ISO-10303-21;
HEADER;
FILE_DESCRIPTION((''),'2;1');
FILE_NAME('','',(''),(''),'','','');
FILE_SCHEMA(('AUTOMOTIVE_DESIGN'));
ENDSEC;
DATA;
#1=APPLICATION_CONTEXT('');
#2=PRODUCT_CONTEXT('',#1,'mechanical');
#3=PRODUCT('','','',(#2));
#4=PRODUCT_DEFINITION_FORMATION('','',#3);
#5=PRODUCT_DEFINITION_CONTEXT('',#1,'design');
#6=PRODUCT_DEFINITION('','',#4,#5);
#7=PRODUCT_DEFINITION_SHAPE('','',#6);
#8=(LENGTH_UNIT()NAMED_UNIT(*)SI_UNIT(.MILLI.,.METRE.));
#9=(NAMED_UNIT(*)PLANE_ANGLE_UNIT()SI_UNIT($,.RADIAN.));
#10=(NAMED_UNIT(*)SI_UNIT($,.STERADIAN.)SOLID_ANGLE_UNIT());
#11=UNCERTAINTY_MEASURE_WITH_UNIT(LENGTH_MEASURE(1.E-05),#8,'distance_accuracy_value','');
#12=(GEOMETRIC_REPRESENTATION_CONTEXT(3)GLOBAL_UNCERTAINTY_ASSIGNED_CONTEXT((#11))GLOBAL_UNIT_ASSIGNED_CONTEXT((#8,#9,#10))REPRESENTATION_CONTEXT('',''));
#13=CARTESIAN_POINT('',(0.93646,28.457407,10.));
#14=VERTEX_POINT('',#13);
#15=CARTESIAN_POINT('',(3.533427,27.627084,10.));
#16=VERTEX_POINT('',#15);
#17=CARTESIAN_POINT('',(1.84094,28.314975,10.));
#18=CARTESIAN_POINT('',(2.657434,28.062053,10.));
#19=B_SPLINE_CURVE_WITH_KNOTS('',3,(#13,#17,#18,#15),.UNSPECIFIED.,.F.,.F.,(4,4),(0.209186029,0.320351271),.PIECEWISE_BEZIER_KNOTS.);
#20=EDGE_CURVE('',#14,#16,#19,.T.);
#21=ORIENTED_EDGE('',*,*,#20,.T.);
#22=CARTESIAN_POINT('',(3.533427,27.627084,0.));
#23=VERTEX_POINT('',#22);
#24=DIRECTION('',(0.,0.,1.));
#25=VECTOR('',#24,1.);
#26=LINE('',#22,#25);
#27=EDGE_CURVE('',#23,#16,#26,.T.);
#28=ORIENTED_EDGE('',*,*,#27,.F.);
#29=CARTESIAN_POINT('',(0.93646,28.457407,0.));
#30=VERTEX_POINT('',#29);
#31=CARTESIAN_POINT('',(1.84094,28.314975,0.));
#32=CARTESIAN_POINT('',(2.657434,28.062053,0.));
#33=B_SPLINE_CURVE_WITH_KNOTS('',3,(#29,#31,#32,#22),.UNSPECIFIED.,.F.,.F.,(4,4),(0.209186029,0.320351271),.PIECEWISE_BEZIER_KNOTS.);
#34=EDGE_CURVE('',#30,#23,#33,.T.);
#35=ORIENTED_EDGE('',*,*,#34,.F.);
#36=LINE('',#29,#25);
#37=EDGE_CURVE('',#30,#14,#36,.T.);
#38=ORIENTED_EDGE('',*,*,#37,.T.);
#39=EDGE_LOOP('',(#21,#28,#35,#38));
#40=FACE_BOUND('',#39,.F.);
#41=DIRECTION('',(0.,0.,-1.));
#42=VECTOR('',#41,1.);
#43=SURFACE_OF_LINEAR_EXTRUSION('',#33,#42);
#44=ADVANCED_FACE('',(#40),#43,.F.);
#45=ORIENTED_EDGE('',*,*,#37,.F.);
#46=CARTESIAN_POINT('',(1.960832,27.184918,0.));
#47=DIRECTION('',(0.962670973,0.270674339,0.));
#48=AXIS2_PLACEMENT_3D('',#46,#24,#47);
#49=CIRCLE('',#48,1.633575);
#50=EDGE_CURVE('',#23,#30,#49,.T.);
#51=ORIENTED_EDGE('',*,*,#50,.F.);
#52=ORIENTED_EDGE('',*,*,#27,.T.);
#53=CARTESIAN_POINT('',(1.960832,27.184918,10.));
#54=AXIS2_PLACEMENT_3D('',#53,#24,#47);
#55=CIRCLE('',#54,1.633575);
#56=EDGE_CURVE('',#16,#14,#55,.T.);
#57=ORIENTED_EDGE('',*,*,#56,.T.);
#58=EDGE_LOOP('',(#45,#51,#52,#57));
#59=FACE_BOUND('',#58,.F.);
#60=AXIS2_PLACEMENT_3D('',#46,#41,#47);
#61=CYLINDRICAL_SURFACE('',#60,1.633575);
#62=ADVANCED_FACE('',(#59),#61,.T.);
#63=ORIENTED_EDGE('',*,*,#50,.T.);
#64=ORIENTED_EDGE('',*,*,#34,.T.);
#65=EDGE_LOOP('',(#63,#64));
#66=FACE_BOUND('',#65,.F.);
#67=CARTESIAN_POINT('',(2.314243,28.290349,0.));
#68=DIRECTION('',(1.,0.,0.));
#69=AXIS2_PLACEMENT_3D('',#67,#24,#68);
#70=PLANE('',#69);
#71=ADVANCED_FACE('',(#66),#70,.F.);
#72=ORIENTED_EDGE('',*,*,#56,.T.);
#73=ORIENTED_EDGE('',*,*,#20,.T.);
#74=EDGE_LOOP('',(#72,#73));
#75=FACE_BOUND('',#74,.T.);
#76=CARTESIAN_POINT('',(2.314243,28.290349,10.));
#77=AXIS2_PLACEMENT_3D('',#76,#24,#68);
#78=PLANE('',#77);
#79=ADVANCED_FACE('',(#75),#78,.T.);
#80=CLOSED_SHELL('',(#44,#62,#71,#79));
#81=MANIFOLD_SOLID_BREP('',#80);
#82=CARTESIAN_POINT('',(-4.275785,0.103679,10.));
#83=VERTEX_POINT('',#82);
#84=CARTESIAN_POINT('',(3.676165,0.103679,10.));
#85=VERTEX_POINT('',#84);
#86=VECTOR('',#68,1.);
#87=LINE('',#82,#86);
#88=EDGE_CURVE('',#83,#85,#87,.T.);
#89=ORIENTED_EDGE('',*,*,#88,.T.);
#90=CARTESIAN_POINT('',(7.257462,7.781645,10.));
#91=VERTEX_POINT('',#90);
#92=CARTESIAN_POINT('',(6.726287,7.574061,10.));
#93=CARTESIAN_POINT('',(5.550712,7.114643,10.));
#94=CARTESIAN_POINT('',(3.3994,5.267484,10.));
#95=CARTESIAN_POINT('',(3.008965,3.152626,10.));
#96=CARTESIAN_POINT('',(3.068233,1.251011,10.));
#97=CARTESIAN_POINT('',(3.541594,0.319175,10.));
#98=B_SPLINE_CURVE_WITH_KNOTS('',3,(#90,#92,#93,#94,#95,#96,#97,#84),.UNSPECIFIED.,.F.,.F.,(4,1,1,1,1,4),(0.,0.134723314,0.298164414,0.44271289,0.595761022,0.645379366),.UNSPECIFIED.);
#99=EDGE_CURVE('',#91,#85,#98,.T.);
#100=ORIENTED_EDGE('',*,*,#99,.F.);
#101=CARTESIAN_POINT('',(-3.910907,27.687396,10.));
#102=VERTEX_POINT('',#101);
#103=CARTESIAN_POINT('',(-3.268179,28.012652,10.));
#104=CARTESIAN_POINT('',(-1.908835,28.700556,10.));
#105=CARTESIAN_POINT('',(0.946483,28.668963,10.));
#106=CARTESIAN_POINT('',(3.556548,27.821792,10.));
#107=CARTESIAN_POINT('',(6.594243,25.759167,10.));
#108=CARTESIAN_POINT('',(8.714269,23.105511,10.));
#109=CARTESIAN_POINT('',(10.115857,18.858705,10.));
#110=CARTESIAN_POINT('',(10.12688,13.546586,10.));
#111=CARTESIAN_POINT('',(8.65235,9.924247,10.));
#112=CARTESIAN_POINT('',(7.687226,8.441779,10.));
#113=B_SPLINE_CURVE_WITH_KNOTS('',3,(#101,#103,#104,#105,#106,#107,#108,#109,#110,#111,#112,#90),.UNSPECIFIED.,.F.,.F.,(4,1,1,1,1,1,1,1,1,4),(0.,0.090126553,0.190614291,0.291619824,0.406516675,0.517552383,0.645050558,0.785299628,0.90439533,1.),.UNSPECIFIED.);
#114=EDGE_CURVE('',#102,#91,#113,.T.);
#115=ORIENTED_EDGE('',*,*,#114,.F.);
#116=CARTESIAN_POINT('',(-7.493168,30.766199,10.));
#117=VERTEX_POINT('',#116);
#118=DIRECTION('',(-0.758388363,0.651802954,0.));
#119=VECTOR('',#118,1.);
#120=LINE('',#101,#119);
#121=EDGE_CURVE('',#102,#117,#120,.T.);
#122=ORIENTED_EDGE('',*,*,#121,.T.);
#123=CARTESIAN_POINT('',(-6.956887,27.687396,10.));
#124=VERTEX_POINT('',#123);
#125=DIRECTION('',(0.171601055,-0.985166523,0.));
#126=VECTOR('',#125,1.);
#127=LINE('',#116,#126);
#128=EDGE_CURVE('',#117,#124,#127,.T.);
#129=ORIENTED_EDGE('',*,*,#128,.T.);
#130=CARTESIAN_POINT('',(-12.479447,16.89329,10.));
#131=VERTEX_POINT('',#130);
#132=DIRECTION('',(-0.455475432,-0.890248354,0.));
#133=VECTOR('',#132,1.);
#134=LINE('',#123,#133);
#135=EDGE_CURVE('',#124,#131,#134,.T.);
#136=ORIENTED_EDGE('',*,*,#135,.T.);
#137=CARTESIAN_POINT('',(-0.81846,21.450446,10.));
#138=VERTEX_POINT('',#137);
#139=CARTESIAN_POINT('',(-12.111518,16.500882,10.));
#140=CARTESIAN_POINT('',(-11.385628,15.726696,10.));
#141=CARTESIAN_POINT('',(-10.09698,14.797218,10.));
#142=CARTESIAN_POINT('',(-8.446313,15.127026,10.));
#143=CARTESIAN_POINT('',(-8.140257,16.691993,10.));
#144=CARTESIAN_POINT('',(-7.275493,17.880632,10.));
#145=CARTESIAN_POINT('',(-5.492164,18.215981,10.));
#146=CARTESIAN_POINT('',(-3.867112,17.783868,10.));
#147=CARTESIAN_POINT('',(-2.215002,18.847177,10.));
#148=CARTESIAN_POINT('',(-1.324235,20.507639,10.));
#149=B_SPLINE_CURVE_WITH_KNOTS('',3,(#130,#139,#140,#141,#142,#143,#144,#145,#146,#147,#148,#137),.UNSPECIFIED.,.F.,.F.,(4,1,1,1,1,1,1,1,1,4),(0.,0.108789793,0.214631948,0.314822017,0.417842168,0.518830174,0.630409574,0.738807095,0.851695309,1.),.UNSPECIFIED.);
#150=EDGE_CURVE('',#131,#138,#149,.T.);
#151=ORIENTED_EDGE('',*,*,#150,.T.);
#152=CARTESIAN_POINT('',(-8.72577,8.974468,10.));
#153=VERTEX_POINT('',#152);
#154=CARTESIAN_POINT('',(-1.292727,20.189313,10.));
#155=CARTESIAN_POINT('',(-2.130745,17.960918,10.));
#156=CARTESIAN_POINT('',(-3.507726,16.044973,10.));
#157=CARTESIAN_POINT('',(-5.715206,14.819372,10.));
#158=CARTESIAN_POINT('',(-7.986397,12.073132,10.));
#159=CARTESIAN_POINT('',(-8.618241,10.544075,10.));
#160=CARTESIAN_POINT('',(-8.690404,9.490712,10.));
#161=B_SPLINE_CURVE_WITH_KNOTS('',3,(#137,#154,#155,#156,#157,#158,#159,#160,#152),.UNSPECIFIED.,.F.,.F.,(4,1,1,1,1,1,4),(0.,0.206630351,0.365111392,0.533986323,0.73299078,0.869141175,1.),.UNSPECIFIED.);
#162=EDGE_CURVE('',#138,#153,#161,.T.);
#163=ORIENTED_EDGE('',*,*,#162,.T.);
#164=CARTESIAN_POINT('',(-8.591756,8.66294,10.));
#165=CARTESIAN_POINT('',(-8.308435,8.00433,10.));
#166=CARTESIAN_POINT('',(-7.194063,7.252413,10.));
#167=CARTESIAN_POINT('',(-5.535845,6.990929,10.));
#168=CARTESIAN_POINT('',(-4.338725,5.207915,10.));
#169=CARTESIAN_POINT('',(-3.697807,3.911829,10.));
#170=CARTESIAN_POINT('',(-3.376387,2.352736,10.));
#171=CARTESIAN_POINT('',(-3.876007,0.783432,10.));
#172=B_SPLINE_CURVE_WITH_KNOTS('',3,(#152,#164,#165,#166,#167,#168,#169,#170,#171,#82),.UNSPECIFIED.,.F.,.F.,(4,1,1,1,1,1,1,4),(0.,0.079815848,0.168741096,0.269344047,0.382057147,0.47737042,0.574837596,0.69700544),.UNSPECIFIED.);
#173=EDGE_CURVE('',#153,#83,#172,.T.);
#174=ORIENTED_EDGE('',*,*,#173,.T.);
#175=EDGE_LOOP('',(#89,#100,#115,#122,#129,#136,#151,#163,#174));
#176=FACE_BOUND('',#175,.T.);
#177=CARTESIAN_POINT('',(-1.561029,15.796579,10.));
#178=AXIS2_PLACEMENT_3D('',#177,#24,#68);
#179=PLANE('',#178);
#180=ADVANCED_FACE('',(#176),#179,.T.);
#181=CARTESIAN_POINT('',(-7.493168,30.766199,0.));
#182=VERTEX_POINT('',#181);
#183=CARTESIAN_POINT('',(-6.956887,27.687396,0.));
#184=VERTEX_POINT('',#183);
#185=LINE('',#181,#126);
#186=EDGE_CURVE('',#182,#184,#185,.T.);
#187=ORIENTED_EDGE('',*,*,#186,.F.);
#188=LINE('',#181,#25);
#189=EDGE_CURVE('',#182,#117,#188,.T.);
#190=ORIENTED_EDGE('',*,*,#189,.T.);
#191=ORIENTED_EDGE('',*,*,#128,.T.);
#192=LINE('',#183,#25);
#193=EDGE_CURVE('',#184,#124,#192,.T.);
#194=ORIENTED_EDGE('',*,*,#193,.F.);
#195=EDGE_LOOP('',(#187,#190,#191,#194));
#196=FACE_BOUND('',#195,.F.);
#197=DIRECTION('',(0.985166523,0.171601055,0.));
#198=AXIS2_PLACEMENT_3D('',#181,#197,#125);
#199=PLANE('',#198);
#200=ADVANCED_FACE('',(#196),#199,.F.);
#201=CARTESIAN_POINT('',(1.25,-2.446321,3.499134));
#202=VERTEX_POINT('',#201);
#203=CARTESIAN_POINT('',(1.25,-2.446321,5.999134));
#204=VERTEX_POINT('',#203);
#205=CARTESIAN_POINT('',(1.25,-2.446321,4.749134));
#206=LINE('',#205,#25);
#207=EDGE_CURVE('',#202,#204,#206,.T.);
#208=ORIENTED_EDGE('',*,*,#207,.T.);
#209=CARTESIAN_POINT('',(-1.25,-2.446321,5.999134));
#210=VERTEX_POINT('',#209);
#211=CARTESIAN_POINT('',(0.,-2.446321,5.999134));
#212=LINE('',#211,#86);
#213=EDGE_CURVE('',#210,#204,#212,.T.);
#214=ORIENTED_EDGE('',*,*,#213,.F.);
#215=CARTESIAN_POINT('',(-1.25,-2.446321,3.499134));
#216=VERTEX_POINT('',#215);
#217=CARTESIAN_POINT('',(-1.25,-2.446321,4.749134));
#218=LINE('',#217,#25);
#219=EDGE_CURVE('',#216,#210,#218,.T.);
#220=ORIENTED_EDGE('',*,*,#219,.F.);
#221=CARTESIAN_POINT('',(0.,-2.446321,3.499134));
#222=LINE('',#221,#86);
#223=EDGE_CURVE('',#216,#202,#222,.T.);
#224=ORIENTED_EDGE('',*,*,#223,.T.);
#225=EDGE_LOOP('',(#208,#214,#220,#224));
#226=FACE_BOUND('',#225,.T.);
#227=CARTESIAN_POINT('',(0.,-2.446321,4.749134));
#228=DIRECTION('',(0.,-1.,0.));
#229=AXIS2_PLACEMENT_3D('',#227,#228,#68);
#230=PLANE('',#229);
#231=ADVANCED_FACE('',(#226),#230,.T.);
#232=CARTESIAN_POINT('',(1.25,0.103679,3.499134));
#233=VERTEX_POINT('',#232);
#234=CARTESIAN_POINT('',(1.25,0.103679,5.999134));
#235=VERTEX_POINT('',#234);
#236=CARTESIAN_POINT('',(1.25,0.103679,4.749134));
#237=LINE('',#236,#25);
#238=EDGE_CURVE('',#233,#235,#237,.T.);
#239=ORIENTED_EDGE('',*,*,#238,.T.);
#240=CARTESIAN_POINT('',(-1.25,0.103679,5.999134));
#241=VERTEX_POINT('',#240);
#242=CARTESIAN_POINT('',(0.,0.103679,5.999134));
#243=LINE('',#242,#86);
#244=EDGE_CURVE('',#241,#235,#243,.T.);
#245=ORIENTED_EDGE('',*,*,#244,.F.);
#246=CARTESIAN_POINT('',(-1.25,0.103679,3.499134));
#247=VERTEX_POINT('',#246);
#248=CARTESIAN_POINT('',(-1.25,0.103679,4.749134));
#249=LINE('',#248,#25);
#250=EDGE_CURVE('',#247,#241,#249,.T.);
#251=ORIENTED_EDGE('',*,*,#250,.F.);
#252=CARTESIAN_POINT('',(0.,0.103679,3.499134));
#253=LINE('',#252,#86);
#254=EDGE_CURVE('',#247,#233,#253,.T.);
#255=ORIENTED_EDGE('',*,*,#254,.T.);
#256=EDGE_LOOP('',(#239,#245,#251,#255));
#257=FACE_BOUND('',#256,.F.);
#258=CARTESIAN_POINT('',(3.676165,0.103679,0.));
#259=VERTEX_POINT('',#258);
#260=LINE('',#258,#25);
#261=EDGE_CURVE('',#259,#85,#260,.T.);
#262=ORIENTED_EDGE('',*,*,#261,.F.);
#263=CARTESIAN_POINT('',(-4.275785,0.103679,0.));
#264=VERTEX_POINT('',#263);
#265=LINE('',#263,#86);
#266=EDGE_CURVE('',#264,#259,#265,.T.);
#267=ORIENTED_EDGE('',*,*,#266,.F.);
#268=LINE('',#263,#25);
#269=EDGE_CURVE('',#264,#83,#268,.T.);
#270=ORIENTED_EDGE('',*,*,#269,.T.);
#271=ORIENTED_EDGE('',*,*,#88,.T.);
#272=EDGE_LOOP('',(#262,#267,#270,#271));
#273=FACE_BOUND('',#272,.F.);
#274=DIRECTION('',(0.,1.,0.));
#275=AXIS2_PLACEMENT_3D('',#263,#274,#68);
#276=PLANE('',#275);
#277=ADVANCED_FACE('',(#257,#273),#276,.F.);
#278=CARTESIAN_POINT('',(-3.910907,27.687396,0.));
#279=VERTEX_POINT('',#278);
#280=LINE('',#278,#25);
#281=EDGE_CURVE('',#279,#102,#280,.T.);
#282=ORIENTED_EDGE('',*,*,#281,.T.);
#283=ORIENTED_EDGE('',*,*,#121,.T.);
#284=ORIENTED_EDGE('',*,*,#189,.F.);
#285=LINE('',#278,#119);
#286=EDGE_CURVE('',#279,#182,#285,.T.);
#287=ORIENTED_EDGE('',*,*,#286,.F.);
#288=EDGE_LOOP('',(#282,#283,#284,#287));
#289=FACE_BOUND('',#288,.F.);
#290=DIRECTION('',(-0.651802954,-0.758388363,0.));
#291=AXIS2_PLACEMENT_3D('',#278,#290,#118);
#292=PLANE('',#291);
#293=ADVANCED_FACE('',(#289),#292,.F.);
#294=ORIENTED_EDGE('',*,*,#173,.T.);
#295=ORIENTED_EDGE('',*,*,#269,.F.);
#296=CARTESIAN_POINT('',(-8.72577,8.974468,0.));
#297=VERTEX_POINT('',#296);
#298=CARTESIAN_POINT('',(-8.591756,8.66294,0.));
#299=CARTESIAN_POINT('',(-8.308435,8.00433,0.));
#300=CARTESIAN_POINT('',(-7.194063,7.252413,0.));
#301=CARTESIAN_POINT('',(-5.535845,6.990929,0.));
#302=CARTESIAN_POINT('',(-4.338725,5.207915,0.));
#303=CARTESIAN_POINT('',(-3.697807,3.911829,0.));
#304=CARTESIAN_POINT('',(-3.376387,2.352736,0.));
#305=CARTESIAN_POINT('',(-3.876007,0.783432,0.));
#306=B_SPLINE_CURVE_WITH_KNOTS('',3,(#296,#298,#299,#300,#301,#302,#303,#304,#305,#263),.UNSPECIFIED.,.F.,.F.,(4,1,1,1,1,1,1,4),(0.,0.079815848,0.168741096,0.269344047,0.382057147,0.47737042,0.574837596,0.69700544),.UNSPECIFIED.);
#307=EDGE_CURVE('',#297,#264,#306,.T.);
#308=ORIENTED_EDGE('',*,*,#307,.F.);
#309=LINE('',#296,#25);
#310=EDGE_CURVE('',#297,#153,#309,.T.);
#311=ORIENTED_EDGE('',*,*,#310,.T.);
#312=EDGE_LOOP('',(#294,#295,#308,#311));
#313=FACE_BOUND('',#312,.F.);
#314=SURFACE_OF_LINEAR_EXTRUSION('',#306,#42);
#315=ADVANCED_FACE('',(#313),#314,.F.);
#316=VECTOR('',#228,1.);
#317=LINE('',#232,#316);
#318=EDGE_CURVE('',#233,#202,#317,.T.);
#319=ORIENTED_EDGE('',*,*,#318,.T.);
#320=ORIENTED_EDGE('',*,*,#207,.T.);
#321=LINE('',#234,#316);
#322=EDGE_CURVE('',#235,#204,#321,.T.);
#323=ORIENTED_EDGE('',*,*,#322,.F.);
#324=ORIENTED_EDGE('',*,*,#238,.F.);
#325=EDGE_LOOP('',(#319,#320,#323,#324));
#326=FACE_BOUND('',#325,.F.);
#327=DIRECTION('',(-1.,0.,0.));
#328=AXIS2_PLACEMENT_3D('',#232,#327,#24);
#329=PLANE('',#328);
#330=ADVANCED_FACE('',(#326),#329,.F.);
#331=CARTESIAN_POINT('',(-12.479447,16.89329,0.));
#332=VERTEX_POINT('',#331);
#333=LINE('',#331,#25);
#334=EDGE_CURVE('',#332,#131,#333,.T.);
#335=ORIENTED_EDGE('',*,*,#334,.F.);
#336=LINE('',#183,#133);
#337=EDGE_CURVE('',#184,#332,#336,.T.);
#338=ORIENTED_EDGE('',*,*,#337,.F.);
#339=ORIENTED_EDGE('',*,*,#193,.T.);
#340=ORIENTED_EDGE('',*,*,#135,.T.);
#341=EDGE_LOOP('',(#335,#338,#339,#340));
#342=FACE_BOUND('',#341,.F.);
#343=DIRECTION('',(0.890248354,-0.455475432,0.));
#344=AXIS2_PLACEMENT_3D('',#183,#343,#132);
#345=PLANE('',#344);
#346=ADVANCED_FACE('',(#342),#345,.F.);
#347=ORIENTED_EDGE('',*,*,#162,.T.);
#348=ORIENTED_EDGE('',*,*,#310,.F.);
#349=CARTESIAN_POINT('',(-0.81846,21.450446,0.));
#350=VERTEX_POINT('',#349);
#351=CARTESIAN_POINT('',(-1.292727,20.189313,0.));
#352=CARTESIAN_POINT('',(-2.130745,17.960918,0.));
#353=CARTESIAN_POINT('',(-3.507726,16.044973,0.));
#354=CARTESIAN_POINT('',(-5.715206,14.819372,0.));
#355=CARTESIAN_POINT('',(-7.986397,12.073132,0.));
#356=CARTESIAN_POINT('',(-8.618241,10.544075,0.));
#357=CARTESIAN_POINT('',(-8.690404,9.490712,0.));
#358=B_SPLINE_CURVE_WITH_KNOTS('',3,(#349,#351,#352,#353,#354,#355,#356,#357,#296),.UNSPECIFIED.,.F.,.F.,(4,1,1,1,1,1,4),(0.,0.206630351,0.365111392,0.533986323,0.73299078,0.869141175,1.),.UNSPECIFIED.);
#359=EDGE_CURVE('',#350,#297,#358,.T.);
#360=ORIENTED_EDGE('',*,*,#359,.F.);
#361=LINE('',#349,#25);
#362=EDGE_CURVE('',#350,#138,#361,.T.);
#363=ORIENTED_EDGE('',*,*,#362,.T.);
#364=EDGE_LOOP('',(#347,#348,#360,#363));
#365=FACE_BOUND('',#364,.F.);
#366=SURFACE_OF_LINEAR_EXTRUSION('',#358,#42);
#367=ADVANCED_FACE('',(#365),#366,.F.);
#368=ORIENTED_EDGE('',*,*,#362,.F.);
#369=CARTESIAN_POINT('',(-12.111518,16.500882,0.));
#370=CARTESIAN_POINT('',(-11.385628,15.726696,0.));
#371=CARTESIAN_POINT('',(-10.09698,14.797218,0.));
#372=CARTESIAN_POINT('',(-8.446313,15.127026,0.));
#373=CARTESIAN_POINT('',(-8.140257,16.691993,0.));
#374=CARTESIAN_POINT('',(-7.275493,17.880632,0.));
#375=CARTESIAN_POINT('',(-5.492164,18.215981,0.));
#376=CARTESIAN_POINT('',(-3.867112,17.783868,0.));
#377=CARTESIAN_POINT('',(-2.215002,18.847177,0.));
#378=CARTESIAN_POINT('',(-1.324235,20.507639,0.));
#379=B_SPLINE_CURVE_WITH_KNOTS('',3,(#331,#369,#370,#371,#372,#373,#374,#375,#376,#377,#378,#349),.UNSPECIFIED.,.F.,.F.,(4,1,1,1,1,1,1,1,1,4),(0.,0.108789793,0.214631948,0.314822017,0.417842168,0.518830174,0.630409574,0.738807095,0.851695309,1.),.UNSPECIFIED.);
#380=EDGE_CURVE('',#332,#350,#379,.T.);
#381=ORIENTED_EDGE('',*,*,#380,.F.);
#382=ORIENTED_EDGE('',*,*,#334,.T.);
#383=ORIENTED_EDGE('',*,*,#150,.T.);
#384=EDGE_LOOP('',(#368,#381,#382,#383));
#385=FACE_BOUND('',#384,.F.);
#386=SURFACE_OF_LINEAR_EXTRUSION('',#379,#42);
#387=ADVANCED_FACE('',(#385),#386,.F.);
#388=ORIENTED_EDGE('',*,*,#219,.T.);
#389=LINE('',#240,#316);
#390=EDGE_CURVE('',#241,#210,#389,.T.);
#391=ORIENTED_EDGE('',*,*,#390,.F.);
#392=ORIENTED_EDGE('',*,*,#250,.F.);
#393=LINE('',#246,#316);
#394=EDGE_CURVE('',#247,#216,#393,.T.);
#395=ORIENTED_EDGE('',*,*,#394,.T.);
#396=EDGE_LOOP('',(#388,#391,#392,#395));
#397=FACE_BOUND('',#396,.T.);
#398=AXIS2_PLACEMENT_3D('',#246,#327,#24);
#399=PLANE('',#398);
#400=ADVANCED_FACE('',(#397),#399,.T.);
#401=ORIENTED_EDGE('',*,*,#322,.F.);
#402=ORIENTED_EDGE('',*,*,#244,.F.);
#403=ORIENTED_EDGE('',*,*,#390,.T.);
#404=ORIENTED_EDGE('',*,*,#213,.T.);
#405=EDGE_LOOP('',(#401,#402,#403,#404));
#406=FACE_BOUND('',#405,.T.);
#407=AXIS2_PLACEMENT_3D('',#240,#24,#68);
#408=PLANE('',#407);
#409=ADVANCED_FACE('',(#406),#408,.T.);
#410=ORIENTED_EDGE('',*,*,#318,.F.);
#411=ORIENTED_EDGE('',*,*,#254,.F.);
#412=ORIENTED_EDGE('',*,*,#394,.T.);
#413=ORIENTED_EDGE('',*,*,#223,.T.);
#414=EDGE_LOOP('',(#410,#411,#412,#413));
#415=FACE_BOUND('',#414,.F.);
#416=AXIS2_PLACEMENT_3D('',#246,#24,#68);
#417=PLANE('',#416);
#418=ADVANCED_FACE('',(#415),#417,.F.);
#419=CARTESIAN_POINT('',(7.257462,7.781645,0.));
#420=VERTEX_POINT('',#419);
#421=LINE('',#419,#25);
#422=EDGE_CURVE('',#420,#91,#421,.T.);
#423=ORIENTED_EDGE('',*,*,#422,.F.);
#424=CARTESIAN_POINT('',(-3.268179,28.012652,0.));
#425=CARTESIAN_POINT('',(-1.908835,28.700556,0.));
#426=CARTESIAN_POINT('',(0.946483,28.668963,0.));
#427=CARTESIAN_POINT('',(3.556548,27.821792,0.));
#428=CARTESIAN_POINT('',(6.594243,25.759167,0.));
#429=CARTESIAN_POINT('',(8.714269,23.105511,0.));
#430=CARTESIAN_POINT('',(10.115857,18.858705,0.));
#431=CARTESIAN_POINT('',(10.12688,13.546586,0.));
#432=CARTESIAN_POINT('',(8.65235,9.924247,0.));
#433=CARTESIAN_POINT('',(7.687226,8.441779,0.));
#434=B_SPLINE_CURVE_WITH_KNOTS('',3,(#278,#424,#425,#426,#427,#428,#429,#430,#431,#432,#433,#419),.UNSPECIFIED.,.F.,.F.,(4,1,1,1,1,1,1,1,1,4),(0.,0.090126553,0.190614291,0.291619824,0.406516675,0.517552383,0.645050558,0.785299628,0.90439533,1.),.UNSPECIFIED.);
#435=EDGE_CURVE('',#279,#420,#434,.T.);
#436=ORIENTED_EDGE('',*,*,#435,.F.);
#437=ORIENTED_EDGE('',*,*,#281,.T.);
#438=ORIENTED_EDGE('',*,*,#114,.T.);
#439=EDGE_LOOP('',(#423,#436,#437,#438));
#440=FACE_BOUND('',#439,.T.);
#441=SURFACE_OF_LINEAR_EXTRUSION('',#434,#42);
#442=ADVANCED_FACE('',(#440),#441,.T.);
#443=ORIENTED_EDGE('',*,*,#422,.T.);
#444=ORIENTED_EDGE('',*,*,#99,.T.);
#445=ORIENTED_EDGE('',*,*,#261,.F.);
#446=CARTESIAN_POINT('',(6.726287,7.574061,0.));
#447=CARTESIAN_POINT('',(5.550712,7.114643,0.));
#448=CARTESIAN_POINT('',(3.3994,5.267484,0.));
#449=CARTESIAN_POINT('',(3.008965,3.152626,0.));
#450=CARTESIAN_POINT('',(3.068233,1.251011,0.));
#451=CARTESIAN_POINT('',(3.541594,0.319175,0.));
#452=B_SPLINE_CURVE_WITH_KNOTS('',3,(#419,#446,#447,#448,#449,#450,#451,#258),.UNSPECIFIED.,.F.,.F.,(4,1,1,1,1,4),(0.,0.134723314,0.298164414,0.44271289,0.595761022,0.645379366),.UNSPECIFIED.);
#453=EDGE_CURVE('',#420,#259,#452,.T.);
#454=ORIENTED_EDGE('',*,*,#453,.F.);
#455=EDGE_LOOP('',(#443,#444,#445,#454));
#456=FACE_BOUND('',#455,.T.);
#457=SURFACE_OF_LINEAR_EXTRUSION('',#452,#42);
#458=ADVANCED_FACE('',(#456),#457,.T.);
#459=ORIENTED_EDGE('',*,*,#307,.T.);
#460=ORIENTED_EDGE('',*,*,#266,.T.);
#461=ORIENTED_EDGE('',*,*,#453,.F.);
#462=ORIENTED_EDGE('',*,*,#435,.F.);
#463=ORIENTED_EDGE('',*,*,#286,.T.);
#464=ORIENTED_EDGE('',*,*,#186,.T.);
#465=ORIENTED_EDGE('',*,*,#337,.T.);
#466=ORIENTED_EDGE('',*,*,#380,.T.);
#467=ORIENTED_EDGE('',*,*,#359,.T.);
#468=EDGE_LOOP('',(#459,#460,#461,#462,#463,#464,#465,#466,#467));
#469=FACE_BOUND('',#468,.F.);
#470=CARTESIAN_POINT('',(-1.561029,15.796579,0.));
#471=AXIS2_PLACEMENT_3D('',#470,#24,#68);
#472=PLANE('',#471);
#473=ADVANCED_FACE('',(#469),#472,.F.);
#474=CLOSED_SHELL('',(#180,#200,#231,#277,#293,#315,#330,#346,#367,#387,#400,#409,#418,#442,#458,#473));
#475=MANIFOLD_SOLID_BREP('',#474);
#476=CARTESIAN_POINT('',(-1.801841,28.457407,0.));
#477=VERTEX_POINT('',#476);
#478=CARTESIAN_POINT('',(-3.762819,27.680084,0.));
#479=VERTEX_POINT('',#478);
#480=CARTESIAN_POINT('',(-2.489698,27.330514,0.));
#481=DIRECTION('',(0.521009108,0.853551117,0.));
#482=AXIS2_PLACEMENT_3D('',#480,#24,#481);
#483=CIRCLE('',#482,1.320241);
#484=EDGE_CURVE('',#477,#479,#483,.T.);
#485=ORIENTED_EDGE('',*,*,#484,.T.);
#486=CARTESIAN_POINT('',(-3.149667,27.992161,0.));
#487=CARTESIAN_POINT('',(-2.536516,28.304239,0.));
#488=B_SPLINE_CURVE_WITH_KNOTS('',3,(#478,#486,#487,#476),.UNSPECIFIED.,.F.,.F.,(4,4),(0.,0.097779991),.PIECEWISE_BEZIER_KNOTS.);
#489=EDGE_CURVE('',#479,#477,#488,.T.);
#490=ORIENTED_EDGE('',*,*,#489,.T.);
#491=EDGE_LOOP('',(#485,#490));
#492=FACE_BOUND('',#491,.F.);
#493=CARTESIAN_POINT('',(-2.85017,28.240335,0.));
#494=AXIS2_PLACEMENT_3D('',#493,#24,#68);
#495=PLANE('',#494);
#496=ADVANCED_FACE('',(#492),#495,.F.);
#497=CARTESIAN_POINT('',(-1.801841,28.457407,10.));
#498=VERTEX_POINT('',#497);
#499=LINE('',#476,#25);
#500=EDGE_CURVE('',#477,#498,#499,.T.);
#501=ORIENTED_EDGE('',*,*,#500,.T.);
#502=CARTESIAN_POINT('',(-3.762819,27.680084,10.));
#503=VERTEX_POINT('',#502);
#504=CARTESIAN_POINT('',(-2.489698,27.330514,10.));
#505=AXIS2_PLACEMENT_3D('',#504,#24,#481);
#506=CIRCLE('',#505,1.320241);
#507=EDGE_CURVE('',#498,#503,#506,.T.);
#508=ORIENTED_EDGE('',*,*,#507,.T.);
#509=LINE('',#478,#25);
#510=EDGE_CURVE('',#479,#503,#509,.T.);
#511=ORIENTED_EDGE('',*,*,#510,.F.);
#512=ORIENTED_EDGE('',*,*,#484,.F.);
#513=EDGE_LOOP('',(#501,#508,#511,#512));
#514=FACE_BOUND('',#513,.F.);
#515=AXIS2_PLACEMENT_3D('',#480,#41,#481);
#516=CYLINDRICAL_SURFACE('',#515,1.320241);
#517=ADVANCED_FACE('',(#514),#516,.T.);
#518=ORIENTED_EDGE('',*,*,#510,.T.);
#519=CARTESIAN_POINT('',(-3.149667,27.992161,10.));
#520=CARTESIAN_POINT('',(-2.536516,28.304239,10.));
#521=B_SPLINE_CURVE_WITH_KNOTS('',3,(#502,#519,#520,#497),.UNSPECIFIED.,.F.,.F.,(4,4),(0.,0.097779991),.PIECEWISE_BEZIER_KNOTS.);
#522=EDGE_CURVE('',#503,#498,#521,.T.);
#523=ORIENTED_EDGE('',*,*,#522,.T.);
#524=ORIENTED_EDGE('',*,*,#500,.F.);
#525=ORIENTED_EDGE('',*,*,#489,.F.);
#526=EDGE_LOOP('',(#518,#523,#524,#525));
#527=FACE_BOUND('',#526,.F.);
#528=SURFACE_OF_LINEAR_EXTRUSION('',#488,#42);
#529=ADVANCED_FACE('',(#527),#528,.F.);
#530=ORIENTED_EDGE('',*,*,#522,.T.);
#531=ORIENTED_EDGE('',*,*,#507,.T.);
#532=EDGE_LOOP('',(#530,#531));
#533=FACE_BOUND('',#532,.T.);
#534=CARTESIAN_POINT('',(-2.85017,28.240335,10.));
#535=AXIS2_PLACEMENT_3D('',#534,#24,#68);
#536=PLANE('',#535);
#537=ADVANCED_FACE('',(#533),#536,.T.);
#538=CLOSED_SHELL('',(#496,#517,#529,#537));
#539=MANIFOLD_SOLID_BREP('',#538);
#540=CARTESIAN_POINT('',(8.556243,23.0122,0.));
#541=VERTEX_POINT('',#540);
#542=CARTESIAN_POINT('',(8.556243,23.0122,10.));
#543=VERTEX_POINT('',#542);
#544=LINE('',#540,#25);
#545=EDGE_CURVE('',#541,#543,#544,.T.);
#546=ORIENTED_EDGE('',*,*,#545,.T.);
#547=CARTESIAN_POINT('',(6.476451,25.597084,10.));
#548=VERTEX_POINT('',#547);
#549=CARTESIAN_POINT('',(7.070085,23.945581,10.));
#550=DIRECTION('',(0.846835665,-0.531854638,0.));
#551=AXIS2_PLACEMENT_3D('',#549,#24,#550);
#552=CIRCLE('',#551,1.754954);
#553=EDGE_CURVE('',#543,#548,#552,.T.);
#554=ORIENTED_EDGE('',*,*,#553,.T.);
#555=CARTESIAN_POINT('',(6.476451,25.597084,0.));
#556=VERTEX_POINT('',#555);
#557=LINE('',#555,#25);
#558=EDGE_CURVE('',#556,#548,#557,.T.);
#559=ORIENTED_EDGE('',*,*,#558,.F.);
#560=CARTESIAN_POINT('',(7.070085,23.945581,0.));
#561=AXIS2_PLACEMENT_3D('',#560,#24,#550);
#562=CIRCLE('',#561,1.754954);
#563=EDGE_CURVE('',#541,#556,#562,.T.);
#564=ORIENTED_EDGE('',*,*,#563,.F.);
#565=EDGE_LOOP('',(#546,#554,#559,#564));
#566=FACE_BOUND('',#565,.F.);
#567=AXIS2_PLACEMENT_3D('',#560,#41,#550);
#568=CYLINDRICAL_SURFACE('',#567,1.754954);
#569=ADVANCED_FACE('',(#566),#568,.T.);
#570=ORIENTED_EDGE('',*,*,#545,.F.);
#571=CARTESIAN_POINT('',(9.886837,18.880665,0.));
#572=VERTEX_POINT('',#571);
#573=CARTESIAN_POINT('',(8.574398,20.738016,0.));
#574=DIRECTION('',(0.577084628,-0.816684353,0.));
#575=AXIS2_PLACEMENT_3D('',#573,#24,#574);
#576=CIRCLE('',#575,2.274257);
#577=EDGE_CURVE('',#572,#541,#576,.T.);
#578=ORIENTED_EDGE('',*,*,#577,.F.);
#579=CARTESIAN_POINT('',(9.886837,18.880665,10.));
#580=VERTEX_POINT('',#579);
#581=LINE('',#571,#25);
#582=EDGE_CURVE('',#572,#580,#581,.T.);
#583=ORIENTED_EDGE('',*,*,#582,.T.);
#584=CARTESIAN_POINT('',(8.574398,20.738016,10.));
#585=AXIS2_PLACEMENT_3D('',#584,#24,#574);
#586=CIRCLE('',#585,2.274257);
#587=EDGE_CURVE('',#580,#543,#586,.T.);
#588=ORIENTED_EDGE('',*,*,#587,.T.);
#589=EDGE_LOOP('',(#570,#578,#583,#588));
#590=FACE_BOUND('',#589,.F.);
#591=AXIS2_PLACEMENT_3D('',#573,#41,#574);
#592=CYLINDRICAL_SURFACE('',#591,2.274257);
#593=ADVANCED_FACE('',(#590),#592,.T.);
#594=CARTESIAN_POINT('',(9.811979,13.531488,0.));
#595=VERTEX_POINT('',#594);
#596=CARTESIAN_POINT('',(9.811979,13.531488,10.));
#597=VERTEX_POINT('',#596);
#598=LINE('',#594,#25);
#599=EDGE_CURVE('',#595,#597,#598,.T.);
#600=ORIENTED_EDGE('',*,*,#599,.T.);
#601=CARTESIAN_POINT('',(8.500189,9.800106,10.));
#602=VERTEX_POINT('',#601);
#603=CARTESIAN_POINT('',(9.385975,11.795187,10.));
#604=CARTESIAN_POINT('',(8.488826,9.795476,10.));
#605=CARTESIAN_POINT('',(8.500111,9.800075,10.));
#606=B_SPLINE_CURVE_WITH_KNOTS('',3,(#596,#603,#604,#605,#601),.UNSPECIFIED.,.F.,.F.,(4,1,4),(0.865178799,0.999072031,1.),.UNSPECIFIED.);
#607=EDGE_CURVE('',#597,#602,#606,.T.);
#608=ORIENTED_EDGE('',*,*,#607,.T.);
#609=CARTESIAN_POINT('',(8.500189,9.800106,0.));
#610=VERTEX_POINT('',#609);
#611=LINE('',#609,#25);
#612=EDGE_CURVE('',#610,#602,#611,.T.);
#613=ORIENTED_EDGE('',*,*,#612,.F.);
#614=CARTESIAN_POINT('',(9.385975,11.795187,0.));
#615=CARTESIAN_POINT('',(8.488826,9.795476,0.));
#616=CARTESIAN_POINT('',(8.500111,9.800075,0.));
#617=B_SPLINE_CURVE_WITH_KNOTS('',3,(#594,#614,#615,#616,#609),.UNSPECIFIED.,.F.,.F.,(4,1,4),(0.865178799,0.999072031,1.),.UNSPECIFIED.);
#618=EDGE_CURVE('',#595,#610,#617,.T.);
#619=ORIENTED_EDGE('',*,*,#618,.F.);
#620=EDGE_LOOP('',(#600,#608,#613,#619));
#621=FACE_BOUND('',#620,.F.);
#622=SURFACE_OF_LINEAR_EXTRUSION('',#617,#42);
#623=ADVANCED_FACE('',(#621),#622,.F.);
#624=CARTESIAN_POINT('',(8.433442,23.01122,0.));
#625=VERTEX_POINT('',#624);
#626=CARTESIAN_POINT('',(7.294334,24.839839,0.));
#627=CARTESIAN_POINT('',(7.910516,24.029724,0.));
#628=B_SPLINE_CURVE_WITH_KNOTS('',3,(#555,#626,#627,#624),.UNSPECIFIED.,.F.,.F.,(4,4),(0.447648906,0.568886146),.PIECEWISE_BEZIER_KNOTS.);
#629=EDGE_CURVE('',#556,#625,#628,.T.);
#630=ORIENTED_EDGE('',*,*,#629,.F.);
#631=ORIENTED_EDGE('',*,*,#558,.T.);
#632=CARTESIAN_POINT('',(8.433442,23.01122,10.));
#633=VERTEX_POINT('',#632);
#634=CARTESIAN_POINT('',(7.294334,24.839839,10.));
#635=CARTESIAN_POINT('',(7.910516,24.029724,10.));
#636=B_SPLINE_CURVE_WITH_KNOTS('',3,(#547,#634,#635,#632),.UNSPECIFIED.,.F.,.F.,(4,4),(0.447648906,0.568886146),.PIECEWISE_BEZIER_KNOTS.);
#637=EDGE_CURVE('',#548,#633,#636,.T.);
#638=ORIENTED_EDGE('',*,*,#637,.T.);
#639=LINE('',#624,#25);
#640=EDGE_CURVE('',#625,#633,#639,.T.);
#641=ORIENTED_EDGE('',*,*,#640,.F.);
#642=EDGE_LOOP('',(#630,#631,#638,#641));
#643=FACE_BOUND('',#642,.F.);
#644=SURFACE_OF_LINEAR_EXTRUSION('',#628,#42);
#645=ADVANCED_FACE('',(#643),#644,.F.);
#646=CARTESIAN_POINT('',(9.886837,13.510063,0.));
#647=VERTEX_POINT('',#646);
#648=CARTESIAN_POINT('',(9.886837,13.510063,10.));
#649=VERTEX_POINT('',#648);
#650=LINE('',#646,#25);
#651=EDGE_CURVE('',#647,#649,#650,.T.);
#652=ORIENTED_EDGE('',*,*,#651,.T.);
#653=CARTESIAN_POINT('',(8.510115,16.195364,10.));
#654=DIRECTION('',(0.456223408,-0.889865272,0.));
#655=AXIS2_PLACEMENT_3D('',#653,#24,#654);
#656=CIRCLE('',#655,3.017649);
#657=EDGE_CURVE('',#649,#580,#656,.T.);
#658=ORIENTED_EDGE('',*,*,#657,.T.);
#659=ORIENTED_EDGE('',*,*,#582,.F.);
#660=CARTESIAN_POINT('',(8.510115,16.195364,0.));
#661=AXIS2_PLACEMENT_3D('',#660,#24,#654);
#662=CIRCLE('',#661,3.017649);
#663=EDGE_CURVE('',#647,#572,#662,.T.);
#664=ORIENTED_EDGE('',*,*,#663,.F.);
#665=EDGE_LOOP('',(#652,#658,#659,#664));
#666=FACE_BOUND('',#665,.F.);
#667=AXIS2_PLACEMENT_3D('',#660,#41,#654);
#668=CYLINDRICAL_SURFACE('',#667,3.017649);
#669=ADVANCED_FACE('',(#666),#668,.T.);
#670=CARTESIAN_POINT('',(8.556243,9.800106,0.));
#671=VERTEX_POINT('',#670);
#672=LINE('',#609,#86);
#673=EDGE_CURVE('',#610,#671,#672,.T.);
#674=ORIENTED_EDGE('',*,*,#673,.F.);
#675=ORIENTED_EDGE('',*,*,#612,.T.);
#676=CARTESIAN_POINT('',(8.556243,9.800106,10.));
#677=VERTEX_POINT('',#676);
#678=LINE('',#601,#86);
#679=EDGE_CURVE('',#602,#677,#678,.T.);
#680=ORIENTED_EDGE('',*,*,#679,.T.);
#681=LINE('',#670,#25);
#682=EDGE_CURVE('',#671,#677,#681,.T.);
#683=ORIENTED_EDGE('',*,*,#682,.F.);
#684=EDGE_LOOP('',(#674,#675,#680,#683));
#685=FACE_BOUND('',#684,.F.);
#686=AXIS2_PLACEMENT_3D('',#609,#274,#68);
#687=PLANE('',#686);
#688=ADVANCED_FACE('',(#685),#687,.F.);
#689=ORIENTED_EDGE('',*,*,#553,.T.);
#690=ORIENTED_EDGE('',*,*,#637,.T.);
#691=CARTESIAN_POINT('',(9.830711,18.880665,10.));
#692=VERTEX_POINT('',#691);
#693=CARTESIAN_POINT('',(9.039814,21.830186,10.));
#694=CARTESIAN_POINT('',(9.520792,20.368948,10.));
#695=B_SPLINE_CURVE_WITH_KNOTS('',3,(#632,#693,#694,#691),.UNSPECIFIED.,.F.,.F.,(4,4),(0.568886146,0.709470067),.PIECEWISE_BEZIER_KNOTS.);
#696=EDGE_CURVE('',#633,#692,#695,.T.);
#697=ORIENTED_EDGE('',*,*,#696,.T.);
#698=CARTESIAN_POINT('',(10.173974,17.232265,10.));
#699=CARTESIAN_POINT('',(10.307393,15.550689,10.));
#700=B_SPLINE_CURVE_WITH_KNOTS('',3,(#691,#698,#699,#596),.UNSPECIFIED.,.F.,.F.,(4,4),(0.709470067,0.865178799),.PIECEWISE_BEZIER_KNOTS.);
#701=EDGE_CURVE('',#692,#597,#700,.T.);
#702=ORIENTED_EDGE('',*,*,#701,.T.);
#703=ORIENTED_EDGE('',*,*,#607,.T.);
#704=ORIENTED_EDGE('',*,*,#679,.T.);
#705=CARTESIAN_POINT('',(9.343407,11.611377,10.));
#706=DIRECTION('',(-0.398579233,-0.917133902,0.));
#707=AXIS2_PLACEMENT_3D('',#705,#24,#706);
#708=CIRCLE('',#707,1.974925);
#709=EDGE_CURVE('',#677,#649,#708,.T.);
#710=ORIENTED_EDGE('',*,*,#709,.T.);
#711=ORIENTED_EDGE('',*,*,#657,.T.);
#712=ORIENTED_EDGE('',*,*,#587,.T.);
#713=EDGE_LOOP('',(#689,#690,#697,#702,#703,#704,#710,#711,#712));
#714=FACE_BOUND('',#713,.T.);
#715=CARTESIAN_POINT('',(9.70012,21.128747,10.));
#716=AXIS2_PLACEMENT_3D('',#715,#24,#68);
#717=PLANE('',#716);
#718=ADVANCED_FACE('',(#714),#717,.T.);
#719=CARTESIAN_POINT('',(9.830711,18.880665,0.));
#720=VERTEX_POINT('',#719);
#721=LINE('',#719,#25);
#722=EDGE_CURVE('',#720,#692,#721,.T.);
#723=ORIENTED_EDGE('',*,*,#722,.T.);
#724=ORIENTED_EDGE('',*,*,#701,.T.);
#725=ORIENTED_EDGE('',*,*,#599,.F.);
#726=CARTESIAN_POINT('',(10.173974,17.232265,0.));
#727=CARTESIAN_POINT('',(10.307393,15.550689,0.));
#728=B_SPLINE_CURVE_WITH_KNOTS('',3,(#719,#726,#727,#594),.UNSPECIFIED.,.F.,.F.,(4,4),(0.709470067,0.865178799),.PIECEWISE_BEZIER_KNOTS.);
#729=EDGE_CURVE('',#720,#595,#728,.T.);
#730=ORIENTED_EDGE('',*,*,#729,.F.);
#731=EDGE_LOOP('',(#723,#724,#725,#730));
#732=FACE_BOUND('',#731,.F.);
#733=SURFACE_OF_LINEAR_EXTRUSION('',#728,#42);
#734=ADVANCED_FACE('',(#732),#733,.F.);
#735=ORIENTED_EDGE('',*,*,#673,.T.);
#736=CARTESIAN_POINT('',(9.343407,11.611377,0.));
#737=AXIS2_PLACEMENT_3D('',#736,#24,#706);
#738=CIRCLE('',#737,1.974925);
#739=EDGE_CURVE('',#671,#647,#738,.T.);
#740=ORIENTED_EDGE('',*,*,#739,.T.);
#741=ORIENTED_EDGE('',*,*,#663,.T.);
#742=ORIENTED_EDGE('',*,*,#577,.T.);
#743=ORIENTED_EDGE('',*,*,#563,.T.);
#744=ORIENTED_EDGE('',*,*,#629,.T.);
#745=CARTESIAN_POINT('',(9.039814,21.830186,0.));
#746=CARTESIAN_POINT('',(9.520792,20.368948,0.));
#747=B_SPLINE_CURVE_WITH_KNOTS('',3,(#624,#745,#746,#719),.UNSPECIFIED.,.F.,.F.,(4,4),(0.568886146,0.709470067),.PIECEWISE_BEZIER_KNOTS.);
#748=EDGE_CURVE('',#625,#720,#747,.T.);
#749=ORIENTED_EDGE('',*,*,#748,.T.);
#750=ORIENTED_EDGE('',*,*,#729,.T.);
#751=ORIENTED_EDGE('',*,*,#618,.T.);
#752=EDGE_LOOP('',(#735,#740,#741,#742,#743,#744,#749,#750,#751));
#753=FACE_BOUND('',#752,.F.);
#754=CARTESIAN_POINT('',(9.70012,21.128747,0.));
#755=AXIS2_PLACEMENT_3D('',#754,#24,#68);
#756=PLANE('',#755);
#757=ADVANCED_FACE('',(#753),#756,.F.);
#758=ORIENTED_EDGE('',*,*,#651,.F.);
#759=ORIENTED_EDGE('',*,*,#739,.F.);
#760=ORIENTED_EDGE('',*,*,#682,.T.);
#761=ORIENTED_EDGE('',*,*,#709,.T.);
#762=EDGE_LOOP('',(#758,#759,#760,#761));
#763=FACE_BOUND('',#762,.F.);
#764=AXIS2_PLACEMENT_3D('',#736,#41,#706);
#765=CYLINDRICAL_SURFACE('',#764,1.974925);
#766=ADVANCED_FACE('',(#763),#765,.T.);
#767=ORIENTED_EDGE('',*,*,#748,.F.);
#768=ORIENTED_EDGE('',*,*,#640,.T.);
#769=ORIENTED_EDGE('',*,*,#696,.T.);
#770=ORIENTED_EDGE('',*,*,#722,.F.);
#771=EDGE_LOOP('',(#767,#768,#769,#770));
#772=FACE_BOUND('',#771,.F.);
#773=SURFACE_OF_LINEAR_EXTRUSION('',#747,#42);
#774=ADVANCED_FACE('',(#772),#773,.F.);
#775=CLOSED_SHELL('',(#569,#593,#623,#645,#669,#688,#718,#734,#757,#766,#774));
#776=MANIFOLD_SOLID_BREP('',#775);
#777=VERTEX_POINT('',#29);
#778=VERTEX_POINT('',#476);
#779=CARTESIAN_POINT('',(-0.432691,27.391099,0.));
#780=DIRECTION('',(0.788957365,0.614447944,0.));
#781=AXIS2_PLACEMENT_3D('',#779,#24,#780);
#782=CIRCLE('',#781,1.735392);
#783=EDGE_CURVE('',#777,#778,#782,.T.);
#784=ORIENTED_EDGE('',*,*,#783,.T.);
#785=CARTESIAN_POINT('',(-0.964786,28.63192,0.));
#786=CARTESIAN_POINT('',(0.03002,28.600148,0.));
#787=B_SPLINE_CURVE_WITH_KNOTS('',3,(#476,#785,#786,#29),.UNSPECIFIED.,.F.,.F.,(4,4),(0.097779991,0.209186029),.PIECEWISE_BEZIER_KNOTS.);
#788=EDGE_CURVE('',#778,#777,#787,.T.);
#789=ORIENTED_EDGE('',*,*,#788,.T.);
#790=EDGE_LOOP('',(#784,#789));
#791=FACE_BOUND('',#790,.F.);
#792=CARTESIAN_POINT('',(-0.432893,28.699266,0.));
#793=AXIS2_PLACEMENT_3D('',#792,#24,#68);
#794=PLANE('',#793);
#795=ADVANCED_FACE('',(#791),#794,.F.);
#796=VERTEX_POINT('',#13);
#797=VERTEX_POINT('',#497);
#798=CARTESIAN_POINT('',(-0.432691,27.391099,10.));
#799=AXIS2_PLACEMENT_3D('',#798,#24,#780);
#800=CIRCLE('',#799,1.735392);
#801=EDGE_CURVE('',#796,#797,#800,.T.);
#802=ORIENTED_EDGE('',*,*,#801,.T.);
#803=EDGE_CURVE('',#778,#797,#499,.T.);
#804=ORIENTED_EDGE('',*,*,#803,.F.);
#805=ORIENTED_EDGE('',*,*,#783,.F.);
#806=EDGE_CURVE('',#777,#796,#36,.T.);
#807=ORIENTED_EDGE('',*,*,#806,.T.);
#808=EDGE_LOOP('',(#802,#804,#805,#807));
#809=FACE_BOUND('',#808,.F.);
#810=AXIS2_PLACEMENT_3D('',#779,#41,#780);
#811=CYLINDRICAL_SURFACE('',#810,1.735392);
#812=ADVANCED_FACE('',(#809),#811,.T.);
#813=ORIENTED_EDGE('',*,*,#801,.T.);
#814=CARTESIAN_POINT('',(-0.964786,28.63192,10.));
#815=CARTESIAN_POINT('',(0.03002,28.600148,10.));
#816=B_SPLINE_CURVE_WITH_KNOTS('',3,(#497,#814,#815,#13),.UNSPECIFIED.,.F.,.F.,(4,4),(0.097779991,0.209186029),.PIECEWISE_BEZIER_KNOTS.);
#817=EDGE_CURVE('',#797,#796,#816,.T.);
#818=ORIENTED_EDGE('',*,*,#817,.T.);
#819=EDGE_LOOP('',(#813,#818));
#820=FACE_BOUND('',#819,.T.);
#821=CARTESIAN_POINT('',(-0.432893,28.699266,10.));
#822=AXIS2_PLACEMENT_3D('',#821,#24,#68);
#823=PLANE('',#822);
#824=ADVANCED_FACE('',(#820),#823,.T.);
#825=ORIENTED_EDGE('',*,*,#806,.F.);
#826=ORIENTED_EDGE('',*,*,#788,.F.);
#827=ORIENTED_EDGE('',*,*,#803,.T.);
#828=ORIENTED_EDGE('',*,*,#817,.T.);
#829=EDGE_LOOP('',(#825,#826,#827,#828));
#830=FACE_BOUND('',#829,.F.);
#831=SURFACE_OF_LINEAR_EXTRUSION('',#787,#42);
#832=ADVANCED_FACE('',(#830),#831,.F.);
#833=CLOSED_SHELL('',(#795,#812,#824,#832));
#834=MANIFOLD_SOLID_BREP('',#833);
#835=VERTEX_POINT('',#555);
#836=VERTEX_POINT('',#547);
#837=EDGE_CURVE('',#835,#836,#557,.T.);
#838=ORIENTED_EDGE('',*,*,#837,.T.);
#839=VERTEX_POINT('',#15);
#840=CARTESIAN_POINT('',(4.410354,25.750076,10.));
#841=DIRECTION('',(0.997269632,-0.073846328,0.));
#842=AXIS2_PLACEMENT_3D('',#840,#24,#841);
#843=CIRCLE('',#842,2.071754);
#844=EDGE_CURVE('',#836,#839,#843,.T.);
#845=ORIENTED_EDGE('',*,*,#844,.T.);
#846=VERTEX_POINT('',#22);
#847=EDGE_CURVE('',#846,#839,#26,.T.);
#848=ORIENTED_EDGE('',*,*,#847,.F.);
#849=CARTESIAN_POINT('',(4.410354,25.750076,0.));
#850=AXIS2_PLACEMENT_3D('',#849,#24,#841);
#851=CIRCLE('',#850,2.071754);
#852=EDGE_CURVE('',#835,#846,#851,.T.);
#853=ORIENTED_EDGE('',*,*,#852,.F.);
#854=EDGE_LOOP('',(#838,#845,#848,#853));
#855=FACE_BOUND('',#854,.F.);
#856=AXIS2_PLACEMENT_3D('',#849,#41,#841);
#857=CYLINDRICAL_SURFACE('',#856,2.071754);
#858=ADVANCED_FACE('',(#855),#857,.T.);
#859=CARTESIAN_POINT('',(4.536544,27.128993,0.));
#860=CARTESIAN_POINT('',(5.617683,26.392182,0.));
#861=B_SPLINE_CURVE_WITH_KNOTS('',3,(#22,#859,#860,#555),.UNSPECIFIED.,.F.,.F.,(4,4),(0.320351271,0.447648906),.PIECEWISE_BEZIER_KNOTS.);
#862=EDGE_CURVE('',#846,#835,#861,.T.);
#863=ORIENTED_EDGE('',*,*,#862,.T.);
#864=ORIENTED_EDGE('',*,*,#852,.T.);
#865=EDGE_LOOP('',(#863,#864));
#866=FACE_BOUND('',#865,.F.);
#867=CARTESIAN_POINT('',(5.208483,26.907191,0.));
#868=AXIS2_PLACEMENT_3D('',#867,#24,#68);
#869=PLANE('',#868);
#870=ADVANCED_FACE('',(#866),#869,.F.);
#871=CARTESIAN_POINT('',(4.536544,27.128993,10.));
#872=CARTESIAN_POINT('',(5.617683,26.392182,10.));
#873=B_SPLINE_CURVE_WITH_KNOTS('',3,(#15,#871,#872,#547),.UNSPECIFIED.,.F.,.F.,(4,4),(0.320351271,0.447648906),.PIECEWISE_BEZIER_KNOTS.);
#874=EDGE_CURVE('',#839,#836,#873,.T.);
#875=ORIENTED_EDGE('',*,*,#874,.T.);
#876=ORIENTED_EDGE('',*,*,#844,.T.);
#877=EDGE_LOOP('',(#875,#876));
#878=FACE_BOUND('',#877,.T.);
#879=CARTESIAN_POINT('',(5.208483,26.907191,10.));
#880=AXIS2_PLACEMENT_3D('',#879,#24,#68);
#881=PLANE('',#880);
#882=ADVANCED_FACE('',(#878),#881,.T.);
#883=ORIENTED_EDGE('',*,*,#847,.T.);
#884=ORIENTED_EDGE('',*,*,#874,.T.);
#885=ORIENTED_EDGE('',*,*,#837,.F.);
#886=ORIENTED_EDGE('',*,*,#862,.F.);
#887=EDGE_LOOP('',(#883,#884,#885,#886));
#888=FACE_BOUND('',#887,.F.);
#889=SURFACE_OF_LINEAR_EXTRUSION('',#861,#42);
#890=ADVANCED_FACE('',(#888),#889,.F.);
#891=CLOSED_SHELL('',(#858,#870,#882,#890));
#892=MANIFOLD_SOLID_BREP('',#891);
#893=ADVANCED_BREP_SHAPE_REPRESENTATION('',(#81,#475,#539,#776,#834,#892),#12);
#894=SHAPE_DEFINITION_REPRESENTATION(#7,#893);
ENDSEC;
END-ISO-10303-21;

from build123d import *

# Parameters (mm, degrees)
F2_DEPTH = 10
F3_DEPTH = 10
F5_W     = 2.5
F5_H     = 2.5
F6_DEPTH = 2.55


with BuildPart() as f2:
    # F1 (on Top) → F2 (new body)
    with BuildSketch(Plane.XY):
        with BuildLine():
            ThreePointArc((9.8868366331, 18.8806653023), (10.7391583273, 21.4351938959), (8.5562430322, 23.0122003704))
            Line((8.5562430322, 23.0122003704), (8.4334415838, 23.0112200522))
            add(Edge.make_bspline(
                [(8.4334415838, 23.0112200522), (9.039813847, 21.8301859064), (9.5207915119, 20.3689476314), (9.8307114094, 18.8806653023)],
                knots=[0.5688861462, 0.5688861462, 0.5688861462, 0.5688861462, 0.7094700668, 0.7094700668, 0.7094700668, 0.7094700668], degree=3))
            Line((9.8307114094, 18.8806653023), (9.8868366331, 18.8806653023))
        make_face()
        with BuildLine():
            ThreePointArc((9.8868366331, 13.5100632906), (11.527763497, 16.1953642964), (9.8868366331, 18.8806653023))
            Line((9.8868366331, 18.8806653023), (9.8307114094, 18.8806653023))
            add(Edge.make_bspline(
                [(9.8307114094, 18.8806653023), (10.1739742387, 17.2322651606), (10.3073926431, 15.5506888351), (9.8119792172, 13.5314884899)],
                knots=[0.7094700668, 0.7094700668, 0.7094700668, 0.7094700668, 0.865178799, 0.865178799, 0.865178799, 0.865178799], degree=3))
            Line((9.8119792172, 13.5314884899), (9.8868366331, 13.5100632906))
        make_face()
        with BuildLine():
            ThreePointArc((8.5562430322, 9.800106287), (11.202384319, 10.9446455586), (9.8868366331, 13.5100632906))
            Line((9.8868366331, 13.5100632906), (9.8119792172, 13.5314884899))
            add(Edge.make_bspline(
                [(9.8119792172, 13.5314884899), (9.3859754601, 11.7951872747), (8.4888256969, 9.7954761091), (8.5001109134, 9.8000746355), (8.5001885891, 9.800106287)],
                knots=[0.865178799, 0.865178799, 0.865178799, 0.865178799, 0.9990720313, 1, 1, 1, 1], degree=3))
            Line((8.5001885891, 9.800106287), (8.5562430322, 9.800106287))
        make_face()
        with BuildLine():
            ThreePointArc((8.5562430322, 23.0122003704), (8.4374020883, 25.0457214806), (6.4764507115, 25.5970843136))
            add(Edge.make_bspline(
                [(6.4764507115, 25.5970843136), (7.2943342217, 24.8398392998), (7.9105162063, 24.0297243015), (8.4334415838, 23.0112200522)],
                knots=[0.447648906, 0.447648906, 0.447648906, 0.447648906, 0.5688861462, 0.5688861462, 0.5688861462, 0.5688861462], degree=3))
            Line((8.4334415838, 23.0112200522), (8.5562430322, 23.0122003704))
        make_face()
    extrude(amount=F2_DEPTH)


with BuildPart() as f2b:
    # F1 (on Top) → F2, piece 2 (new body)
    with BuildSketch(Plane.XY):
        with BuildLine():
            ThreePointArc((6.4764507115, 25.5970843136), (5.5866855056, 27.4554808028), (3.5334266722, 27.6270844042))
            add(Edge.make_bspline(
                [(3.5334266722, 27.6270844042), (4.536544335, 27.1289926967), (5.6176829257, 26.3921824122), (6.4764507115, 25.5970843136)],
                knots=[0.3203512712, 0.3203512712, 0.3203512712, 0.3203512712, 0.447648906, 0.447648906, 0.447648906, 0.447648906], degree=3))
        make_face()
    extrude(amount=F2_DEPTH)


with BuildPart() as f2c:
    # F1 (on Top) → F2, piece 3 (new body)
    with BuildSketch(Plane.XY):
        with BuildLine():
            ThreePointArc((3.5334266722, 27.6270844042), (2.4583213434, 28.7408966239), (0.9364597499, 28.4574069083))
            add(Edge.make_bspline(
                [(0.9364597499, 28.4574069083), (1.840939808, 28.3149747578), (2.6574338214, 28.0620530934), (3.5334266722, 27.6270844042)],
                knots=[0.2091860289, 0.2091860289, 0.2091860289, 0.2091860289, 0.3203512712, 0.3203512712, 0.3203512712, 0.3203512712], degree=3))
        make_face()
    extrude(amount=F2_DEPTH)


with BuildPart() as f2d:
    # F1 (on Top) → F2, piece 4 (new body)
    with BuildSketch(Plane.XY):
        with BuildLine():
            ThreePointArc((0.9364597499, 28.4574069083), (-0.4326906055, 29.1264908894), (-1.801840961, 28.4574069083))
            add(Edge.make_bspline(
                [(-1.801840961, 28.4574069083), (-0.9647864012, 28.6319195592), (0.0300204904, 28.6001475821), (0.9364597499, 28.4574069083)],
                knots=[0.0977799908, 0.0977799908, 0.0977799908, 0.0977799908, 0.2091860289, 0.2091860289, 0.2091860289, 0.2091860289], degree=3))
        make_face()
    extrude(amount=F2_DEPTH)


with BuildPart() as f2e:
    # F1 (on Top) → F2, piece 5 (new body)
    with BuildSketch(Plane.XY):
        with BuildLine():
            add(Edge.make_bspline(
                [(-3.7628188729, 27.6800841093), (-3.1496672197, 27.9921614848), (-2.5365155664, 28.3042388603), (-1.801840961, 28.4574069083)],
                knots=[0, 0, 0, 0, 0.0977799908, 0.0977799908, 0.0977799908, 0.0977799908], degree=3))
            ThreePointArc((-1.801840961, 28.4574069083), (-2.9762072449, 28.5578462507), (-3.7628188729, 27.6800841093))
        make_face()
    extrude(amount=F2_DEPTH)


with BuildPart() as f3:
    # F0 (on Top) → F3 (new body)
    with BuildSketch(Plane.XY):
        with BuildLine():
            Line((-6.956886887, 27.6873964372), (-12.4794470743, 16.8932903899))
            add(Edge.make_bspline(
                [(-12.4794470743, 16.8932903899), (-12.1115177575, 16.5008815726), (-11.3856280956, 15.7266961767), (-10.0969803778, 14.797217917), (-8.4463129775, 15.1270256477), (-8.1402571228, 16.6919926648), (-7.2754926111, 17.8806322708), (-5.4921641458, 18.2159814054), (-3.8671115183, 17.7838675938), (-2.2150015818, 18.8471769684), (-1.3242353255, 20.5076393734), (-0.8184604298, 21.4504458548)],
                knots=[0, 0, 0, 0, 0.108789793, 0.2146319481, 0.314822017, 0.4178421681, 0.5188301736, 0.6304095743, 0.7388070946, 0.8516953089, 1, 1, 1, 1], degree=3))
            add(Edge.make_bspline(
                [(-0.8184604298, 21.4504458548), (-1.2927268673, 20.1893128102), (-2.1307454779, 17.9609178023), (-3.5077259982, 16.0449730888), (-5.7152057676, 14.8193722854), (-7.9863974289, 12.0731321581), (-8.6182414833, 10.5440754701), (-8.6904035616, 9.4907118054), (-8.7257695492, 8.9744677169)],
                knots=[0, 0, 0, 0, 0.2066303506, 0.3651113923, 0.5339863226, 0.7329907798, 0.869141175, 1, 1, 1, 1], degree=3))
            add(Edge.make_bspline(
                [(-8.7257695492, 8.9744677169), (-8.591756213, 8.6629400923), (-8.3084345704, 8.00433013), (-7.1940625433, 7.2524126773), (-5.5358453232, 6.9909292602), (-4.33872477, 5.2079150674), (-3.6978072501, 3.9118294872), (-3.3763865891, 2.3527355335), (-3.8760068449, 0.7834319662), (-4.2757854916, 0.1036788831)],
                knots=[0, 0, 0, 0, 0.0798158481, 0.1687410957, 0.2693440467, 0.3820571472, 0.4773704198, 0.5748375963, 0.6970054399, 0.6970054399, 0.6970054399, 0.6970054399], degree=3))
            Line((-4.2757854916, 0.1036788831), (-1.8036556303, 0.1036788831))
            Line((-1.8036556303, 0.1036788831), (1.1612173494, 0.1036788831))
            Line((1.1612173494, 0.1036788831), (3.6761645139, 0.1036788831))
            add(Edge.make_bspline(
                [(7.2574619425, 7.7816450109), (6.7262872216, 7.574060732), (5.5507119295, 7.1146432565), (3.3993998544, 5.2674837278), (3.0089654531, 3.1526263567), (3.0682331316, 1.2510111623), (3.5415944593, 0.3191754785), (3.6761645139, 0.1036788831)],
                knots=[0, 0, 0, 0, 0.1347233142, 0.298164414, 0.4427128901, 0.5957610218, 0.6453793664, 0.6453793664, 0.6453793664, 0.6453793664], degree=3))
            add(Edge.make_bspline(
                [(-3.9109068398, 27.6873964372), (-3.2681793071, 28.0126523232), (-1.9088345918, 28.7005563686), (0.94648276, 28.6689628353), (3.5565481014, 27.821792279), (6.5942428944, 25.7591665199), (8.7142686993, 23.1055108927), (10.115857033, 18.85870485), (10.1268795283, 13.5465858472), (8.6523498629, 9.9242471528), (7.6872255011, 8.4417785656), (7.2574619425, 7.7816450109)],
                knots=[0, 0, 0, 0, 0.0901265526, 0.1906142911, 0.2916198244, 0.406516675, 0.5175523832, 0.6450505582, 0.785299628, 0.9043953302, 1, 1, 1, 1], degree=3))
            Line((-3.9109068398, 27.6873964372), (-7.4931675838, 30.7661991324))
            Line((-7.4931675838, 30.7661991324), (-6.956886887, 27.6873964372))
        make_face()
    extrude(amount=F3_DEPTH)

    # F5 (on face) → F6 (join)
    with BuildSketch(Plane.XZ.offset(-0.1036788831)):
        with Locations((2.79e-08, 4.7491337452)):
            Rectangle(F5_W, F5_H)
    extrude(amount=F6_DEPTH)


solid = Compound([f2.part, f2b.part, f2c.part, f2d.part, f2e.part, f3.part])
